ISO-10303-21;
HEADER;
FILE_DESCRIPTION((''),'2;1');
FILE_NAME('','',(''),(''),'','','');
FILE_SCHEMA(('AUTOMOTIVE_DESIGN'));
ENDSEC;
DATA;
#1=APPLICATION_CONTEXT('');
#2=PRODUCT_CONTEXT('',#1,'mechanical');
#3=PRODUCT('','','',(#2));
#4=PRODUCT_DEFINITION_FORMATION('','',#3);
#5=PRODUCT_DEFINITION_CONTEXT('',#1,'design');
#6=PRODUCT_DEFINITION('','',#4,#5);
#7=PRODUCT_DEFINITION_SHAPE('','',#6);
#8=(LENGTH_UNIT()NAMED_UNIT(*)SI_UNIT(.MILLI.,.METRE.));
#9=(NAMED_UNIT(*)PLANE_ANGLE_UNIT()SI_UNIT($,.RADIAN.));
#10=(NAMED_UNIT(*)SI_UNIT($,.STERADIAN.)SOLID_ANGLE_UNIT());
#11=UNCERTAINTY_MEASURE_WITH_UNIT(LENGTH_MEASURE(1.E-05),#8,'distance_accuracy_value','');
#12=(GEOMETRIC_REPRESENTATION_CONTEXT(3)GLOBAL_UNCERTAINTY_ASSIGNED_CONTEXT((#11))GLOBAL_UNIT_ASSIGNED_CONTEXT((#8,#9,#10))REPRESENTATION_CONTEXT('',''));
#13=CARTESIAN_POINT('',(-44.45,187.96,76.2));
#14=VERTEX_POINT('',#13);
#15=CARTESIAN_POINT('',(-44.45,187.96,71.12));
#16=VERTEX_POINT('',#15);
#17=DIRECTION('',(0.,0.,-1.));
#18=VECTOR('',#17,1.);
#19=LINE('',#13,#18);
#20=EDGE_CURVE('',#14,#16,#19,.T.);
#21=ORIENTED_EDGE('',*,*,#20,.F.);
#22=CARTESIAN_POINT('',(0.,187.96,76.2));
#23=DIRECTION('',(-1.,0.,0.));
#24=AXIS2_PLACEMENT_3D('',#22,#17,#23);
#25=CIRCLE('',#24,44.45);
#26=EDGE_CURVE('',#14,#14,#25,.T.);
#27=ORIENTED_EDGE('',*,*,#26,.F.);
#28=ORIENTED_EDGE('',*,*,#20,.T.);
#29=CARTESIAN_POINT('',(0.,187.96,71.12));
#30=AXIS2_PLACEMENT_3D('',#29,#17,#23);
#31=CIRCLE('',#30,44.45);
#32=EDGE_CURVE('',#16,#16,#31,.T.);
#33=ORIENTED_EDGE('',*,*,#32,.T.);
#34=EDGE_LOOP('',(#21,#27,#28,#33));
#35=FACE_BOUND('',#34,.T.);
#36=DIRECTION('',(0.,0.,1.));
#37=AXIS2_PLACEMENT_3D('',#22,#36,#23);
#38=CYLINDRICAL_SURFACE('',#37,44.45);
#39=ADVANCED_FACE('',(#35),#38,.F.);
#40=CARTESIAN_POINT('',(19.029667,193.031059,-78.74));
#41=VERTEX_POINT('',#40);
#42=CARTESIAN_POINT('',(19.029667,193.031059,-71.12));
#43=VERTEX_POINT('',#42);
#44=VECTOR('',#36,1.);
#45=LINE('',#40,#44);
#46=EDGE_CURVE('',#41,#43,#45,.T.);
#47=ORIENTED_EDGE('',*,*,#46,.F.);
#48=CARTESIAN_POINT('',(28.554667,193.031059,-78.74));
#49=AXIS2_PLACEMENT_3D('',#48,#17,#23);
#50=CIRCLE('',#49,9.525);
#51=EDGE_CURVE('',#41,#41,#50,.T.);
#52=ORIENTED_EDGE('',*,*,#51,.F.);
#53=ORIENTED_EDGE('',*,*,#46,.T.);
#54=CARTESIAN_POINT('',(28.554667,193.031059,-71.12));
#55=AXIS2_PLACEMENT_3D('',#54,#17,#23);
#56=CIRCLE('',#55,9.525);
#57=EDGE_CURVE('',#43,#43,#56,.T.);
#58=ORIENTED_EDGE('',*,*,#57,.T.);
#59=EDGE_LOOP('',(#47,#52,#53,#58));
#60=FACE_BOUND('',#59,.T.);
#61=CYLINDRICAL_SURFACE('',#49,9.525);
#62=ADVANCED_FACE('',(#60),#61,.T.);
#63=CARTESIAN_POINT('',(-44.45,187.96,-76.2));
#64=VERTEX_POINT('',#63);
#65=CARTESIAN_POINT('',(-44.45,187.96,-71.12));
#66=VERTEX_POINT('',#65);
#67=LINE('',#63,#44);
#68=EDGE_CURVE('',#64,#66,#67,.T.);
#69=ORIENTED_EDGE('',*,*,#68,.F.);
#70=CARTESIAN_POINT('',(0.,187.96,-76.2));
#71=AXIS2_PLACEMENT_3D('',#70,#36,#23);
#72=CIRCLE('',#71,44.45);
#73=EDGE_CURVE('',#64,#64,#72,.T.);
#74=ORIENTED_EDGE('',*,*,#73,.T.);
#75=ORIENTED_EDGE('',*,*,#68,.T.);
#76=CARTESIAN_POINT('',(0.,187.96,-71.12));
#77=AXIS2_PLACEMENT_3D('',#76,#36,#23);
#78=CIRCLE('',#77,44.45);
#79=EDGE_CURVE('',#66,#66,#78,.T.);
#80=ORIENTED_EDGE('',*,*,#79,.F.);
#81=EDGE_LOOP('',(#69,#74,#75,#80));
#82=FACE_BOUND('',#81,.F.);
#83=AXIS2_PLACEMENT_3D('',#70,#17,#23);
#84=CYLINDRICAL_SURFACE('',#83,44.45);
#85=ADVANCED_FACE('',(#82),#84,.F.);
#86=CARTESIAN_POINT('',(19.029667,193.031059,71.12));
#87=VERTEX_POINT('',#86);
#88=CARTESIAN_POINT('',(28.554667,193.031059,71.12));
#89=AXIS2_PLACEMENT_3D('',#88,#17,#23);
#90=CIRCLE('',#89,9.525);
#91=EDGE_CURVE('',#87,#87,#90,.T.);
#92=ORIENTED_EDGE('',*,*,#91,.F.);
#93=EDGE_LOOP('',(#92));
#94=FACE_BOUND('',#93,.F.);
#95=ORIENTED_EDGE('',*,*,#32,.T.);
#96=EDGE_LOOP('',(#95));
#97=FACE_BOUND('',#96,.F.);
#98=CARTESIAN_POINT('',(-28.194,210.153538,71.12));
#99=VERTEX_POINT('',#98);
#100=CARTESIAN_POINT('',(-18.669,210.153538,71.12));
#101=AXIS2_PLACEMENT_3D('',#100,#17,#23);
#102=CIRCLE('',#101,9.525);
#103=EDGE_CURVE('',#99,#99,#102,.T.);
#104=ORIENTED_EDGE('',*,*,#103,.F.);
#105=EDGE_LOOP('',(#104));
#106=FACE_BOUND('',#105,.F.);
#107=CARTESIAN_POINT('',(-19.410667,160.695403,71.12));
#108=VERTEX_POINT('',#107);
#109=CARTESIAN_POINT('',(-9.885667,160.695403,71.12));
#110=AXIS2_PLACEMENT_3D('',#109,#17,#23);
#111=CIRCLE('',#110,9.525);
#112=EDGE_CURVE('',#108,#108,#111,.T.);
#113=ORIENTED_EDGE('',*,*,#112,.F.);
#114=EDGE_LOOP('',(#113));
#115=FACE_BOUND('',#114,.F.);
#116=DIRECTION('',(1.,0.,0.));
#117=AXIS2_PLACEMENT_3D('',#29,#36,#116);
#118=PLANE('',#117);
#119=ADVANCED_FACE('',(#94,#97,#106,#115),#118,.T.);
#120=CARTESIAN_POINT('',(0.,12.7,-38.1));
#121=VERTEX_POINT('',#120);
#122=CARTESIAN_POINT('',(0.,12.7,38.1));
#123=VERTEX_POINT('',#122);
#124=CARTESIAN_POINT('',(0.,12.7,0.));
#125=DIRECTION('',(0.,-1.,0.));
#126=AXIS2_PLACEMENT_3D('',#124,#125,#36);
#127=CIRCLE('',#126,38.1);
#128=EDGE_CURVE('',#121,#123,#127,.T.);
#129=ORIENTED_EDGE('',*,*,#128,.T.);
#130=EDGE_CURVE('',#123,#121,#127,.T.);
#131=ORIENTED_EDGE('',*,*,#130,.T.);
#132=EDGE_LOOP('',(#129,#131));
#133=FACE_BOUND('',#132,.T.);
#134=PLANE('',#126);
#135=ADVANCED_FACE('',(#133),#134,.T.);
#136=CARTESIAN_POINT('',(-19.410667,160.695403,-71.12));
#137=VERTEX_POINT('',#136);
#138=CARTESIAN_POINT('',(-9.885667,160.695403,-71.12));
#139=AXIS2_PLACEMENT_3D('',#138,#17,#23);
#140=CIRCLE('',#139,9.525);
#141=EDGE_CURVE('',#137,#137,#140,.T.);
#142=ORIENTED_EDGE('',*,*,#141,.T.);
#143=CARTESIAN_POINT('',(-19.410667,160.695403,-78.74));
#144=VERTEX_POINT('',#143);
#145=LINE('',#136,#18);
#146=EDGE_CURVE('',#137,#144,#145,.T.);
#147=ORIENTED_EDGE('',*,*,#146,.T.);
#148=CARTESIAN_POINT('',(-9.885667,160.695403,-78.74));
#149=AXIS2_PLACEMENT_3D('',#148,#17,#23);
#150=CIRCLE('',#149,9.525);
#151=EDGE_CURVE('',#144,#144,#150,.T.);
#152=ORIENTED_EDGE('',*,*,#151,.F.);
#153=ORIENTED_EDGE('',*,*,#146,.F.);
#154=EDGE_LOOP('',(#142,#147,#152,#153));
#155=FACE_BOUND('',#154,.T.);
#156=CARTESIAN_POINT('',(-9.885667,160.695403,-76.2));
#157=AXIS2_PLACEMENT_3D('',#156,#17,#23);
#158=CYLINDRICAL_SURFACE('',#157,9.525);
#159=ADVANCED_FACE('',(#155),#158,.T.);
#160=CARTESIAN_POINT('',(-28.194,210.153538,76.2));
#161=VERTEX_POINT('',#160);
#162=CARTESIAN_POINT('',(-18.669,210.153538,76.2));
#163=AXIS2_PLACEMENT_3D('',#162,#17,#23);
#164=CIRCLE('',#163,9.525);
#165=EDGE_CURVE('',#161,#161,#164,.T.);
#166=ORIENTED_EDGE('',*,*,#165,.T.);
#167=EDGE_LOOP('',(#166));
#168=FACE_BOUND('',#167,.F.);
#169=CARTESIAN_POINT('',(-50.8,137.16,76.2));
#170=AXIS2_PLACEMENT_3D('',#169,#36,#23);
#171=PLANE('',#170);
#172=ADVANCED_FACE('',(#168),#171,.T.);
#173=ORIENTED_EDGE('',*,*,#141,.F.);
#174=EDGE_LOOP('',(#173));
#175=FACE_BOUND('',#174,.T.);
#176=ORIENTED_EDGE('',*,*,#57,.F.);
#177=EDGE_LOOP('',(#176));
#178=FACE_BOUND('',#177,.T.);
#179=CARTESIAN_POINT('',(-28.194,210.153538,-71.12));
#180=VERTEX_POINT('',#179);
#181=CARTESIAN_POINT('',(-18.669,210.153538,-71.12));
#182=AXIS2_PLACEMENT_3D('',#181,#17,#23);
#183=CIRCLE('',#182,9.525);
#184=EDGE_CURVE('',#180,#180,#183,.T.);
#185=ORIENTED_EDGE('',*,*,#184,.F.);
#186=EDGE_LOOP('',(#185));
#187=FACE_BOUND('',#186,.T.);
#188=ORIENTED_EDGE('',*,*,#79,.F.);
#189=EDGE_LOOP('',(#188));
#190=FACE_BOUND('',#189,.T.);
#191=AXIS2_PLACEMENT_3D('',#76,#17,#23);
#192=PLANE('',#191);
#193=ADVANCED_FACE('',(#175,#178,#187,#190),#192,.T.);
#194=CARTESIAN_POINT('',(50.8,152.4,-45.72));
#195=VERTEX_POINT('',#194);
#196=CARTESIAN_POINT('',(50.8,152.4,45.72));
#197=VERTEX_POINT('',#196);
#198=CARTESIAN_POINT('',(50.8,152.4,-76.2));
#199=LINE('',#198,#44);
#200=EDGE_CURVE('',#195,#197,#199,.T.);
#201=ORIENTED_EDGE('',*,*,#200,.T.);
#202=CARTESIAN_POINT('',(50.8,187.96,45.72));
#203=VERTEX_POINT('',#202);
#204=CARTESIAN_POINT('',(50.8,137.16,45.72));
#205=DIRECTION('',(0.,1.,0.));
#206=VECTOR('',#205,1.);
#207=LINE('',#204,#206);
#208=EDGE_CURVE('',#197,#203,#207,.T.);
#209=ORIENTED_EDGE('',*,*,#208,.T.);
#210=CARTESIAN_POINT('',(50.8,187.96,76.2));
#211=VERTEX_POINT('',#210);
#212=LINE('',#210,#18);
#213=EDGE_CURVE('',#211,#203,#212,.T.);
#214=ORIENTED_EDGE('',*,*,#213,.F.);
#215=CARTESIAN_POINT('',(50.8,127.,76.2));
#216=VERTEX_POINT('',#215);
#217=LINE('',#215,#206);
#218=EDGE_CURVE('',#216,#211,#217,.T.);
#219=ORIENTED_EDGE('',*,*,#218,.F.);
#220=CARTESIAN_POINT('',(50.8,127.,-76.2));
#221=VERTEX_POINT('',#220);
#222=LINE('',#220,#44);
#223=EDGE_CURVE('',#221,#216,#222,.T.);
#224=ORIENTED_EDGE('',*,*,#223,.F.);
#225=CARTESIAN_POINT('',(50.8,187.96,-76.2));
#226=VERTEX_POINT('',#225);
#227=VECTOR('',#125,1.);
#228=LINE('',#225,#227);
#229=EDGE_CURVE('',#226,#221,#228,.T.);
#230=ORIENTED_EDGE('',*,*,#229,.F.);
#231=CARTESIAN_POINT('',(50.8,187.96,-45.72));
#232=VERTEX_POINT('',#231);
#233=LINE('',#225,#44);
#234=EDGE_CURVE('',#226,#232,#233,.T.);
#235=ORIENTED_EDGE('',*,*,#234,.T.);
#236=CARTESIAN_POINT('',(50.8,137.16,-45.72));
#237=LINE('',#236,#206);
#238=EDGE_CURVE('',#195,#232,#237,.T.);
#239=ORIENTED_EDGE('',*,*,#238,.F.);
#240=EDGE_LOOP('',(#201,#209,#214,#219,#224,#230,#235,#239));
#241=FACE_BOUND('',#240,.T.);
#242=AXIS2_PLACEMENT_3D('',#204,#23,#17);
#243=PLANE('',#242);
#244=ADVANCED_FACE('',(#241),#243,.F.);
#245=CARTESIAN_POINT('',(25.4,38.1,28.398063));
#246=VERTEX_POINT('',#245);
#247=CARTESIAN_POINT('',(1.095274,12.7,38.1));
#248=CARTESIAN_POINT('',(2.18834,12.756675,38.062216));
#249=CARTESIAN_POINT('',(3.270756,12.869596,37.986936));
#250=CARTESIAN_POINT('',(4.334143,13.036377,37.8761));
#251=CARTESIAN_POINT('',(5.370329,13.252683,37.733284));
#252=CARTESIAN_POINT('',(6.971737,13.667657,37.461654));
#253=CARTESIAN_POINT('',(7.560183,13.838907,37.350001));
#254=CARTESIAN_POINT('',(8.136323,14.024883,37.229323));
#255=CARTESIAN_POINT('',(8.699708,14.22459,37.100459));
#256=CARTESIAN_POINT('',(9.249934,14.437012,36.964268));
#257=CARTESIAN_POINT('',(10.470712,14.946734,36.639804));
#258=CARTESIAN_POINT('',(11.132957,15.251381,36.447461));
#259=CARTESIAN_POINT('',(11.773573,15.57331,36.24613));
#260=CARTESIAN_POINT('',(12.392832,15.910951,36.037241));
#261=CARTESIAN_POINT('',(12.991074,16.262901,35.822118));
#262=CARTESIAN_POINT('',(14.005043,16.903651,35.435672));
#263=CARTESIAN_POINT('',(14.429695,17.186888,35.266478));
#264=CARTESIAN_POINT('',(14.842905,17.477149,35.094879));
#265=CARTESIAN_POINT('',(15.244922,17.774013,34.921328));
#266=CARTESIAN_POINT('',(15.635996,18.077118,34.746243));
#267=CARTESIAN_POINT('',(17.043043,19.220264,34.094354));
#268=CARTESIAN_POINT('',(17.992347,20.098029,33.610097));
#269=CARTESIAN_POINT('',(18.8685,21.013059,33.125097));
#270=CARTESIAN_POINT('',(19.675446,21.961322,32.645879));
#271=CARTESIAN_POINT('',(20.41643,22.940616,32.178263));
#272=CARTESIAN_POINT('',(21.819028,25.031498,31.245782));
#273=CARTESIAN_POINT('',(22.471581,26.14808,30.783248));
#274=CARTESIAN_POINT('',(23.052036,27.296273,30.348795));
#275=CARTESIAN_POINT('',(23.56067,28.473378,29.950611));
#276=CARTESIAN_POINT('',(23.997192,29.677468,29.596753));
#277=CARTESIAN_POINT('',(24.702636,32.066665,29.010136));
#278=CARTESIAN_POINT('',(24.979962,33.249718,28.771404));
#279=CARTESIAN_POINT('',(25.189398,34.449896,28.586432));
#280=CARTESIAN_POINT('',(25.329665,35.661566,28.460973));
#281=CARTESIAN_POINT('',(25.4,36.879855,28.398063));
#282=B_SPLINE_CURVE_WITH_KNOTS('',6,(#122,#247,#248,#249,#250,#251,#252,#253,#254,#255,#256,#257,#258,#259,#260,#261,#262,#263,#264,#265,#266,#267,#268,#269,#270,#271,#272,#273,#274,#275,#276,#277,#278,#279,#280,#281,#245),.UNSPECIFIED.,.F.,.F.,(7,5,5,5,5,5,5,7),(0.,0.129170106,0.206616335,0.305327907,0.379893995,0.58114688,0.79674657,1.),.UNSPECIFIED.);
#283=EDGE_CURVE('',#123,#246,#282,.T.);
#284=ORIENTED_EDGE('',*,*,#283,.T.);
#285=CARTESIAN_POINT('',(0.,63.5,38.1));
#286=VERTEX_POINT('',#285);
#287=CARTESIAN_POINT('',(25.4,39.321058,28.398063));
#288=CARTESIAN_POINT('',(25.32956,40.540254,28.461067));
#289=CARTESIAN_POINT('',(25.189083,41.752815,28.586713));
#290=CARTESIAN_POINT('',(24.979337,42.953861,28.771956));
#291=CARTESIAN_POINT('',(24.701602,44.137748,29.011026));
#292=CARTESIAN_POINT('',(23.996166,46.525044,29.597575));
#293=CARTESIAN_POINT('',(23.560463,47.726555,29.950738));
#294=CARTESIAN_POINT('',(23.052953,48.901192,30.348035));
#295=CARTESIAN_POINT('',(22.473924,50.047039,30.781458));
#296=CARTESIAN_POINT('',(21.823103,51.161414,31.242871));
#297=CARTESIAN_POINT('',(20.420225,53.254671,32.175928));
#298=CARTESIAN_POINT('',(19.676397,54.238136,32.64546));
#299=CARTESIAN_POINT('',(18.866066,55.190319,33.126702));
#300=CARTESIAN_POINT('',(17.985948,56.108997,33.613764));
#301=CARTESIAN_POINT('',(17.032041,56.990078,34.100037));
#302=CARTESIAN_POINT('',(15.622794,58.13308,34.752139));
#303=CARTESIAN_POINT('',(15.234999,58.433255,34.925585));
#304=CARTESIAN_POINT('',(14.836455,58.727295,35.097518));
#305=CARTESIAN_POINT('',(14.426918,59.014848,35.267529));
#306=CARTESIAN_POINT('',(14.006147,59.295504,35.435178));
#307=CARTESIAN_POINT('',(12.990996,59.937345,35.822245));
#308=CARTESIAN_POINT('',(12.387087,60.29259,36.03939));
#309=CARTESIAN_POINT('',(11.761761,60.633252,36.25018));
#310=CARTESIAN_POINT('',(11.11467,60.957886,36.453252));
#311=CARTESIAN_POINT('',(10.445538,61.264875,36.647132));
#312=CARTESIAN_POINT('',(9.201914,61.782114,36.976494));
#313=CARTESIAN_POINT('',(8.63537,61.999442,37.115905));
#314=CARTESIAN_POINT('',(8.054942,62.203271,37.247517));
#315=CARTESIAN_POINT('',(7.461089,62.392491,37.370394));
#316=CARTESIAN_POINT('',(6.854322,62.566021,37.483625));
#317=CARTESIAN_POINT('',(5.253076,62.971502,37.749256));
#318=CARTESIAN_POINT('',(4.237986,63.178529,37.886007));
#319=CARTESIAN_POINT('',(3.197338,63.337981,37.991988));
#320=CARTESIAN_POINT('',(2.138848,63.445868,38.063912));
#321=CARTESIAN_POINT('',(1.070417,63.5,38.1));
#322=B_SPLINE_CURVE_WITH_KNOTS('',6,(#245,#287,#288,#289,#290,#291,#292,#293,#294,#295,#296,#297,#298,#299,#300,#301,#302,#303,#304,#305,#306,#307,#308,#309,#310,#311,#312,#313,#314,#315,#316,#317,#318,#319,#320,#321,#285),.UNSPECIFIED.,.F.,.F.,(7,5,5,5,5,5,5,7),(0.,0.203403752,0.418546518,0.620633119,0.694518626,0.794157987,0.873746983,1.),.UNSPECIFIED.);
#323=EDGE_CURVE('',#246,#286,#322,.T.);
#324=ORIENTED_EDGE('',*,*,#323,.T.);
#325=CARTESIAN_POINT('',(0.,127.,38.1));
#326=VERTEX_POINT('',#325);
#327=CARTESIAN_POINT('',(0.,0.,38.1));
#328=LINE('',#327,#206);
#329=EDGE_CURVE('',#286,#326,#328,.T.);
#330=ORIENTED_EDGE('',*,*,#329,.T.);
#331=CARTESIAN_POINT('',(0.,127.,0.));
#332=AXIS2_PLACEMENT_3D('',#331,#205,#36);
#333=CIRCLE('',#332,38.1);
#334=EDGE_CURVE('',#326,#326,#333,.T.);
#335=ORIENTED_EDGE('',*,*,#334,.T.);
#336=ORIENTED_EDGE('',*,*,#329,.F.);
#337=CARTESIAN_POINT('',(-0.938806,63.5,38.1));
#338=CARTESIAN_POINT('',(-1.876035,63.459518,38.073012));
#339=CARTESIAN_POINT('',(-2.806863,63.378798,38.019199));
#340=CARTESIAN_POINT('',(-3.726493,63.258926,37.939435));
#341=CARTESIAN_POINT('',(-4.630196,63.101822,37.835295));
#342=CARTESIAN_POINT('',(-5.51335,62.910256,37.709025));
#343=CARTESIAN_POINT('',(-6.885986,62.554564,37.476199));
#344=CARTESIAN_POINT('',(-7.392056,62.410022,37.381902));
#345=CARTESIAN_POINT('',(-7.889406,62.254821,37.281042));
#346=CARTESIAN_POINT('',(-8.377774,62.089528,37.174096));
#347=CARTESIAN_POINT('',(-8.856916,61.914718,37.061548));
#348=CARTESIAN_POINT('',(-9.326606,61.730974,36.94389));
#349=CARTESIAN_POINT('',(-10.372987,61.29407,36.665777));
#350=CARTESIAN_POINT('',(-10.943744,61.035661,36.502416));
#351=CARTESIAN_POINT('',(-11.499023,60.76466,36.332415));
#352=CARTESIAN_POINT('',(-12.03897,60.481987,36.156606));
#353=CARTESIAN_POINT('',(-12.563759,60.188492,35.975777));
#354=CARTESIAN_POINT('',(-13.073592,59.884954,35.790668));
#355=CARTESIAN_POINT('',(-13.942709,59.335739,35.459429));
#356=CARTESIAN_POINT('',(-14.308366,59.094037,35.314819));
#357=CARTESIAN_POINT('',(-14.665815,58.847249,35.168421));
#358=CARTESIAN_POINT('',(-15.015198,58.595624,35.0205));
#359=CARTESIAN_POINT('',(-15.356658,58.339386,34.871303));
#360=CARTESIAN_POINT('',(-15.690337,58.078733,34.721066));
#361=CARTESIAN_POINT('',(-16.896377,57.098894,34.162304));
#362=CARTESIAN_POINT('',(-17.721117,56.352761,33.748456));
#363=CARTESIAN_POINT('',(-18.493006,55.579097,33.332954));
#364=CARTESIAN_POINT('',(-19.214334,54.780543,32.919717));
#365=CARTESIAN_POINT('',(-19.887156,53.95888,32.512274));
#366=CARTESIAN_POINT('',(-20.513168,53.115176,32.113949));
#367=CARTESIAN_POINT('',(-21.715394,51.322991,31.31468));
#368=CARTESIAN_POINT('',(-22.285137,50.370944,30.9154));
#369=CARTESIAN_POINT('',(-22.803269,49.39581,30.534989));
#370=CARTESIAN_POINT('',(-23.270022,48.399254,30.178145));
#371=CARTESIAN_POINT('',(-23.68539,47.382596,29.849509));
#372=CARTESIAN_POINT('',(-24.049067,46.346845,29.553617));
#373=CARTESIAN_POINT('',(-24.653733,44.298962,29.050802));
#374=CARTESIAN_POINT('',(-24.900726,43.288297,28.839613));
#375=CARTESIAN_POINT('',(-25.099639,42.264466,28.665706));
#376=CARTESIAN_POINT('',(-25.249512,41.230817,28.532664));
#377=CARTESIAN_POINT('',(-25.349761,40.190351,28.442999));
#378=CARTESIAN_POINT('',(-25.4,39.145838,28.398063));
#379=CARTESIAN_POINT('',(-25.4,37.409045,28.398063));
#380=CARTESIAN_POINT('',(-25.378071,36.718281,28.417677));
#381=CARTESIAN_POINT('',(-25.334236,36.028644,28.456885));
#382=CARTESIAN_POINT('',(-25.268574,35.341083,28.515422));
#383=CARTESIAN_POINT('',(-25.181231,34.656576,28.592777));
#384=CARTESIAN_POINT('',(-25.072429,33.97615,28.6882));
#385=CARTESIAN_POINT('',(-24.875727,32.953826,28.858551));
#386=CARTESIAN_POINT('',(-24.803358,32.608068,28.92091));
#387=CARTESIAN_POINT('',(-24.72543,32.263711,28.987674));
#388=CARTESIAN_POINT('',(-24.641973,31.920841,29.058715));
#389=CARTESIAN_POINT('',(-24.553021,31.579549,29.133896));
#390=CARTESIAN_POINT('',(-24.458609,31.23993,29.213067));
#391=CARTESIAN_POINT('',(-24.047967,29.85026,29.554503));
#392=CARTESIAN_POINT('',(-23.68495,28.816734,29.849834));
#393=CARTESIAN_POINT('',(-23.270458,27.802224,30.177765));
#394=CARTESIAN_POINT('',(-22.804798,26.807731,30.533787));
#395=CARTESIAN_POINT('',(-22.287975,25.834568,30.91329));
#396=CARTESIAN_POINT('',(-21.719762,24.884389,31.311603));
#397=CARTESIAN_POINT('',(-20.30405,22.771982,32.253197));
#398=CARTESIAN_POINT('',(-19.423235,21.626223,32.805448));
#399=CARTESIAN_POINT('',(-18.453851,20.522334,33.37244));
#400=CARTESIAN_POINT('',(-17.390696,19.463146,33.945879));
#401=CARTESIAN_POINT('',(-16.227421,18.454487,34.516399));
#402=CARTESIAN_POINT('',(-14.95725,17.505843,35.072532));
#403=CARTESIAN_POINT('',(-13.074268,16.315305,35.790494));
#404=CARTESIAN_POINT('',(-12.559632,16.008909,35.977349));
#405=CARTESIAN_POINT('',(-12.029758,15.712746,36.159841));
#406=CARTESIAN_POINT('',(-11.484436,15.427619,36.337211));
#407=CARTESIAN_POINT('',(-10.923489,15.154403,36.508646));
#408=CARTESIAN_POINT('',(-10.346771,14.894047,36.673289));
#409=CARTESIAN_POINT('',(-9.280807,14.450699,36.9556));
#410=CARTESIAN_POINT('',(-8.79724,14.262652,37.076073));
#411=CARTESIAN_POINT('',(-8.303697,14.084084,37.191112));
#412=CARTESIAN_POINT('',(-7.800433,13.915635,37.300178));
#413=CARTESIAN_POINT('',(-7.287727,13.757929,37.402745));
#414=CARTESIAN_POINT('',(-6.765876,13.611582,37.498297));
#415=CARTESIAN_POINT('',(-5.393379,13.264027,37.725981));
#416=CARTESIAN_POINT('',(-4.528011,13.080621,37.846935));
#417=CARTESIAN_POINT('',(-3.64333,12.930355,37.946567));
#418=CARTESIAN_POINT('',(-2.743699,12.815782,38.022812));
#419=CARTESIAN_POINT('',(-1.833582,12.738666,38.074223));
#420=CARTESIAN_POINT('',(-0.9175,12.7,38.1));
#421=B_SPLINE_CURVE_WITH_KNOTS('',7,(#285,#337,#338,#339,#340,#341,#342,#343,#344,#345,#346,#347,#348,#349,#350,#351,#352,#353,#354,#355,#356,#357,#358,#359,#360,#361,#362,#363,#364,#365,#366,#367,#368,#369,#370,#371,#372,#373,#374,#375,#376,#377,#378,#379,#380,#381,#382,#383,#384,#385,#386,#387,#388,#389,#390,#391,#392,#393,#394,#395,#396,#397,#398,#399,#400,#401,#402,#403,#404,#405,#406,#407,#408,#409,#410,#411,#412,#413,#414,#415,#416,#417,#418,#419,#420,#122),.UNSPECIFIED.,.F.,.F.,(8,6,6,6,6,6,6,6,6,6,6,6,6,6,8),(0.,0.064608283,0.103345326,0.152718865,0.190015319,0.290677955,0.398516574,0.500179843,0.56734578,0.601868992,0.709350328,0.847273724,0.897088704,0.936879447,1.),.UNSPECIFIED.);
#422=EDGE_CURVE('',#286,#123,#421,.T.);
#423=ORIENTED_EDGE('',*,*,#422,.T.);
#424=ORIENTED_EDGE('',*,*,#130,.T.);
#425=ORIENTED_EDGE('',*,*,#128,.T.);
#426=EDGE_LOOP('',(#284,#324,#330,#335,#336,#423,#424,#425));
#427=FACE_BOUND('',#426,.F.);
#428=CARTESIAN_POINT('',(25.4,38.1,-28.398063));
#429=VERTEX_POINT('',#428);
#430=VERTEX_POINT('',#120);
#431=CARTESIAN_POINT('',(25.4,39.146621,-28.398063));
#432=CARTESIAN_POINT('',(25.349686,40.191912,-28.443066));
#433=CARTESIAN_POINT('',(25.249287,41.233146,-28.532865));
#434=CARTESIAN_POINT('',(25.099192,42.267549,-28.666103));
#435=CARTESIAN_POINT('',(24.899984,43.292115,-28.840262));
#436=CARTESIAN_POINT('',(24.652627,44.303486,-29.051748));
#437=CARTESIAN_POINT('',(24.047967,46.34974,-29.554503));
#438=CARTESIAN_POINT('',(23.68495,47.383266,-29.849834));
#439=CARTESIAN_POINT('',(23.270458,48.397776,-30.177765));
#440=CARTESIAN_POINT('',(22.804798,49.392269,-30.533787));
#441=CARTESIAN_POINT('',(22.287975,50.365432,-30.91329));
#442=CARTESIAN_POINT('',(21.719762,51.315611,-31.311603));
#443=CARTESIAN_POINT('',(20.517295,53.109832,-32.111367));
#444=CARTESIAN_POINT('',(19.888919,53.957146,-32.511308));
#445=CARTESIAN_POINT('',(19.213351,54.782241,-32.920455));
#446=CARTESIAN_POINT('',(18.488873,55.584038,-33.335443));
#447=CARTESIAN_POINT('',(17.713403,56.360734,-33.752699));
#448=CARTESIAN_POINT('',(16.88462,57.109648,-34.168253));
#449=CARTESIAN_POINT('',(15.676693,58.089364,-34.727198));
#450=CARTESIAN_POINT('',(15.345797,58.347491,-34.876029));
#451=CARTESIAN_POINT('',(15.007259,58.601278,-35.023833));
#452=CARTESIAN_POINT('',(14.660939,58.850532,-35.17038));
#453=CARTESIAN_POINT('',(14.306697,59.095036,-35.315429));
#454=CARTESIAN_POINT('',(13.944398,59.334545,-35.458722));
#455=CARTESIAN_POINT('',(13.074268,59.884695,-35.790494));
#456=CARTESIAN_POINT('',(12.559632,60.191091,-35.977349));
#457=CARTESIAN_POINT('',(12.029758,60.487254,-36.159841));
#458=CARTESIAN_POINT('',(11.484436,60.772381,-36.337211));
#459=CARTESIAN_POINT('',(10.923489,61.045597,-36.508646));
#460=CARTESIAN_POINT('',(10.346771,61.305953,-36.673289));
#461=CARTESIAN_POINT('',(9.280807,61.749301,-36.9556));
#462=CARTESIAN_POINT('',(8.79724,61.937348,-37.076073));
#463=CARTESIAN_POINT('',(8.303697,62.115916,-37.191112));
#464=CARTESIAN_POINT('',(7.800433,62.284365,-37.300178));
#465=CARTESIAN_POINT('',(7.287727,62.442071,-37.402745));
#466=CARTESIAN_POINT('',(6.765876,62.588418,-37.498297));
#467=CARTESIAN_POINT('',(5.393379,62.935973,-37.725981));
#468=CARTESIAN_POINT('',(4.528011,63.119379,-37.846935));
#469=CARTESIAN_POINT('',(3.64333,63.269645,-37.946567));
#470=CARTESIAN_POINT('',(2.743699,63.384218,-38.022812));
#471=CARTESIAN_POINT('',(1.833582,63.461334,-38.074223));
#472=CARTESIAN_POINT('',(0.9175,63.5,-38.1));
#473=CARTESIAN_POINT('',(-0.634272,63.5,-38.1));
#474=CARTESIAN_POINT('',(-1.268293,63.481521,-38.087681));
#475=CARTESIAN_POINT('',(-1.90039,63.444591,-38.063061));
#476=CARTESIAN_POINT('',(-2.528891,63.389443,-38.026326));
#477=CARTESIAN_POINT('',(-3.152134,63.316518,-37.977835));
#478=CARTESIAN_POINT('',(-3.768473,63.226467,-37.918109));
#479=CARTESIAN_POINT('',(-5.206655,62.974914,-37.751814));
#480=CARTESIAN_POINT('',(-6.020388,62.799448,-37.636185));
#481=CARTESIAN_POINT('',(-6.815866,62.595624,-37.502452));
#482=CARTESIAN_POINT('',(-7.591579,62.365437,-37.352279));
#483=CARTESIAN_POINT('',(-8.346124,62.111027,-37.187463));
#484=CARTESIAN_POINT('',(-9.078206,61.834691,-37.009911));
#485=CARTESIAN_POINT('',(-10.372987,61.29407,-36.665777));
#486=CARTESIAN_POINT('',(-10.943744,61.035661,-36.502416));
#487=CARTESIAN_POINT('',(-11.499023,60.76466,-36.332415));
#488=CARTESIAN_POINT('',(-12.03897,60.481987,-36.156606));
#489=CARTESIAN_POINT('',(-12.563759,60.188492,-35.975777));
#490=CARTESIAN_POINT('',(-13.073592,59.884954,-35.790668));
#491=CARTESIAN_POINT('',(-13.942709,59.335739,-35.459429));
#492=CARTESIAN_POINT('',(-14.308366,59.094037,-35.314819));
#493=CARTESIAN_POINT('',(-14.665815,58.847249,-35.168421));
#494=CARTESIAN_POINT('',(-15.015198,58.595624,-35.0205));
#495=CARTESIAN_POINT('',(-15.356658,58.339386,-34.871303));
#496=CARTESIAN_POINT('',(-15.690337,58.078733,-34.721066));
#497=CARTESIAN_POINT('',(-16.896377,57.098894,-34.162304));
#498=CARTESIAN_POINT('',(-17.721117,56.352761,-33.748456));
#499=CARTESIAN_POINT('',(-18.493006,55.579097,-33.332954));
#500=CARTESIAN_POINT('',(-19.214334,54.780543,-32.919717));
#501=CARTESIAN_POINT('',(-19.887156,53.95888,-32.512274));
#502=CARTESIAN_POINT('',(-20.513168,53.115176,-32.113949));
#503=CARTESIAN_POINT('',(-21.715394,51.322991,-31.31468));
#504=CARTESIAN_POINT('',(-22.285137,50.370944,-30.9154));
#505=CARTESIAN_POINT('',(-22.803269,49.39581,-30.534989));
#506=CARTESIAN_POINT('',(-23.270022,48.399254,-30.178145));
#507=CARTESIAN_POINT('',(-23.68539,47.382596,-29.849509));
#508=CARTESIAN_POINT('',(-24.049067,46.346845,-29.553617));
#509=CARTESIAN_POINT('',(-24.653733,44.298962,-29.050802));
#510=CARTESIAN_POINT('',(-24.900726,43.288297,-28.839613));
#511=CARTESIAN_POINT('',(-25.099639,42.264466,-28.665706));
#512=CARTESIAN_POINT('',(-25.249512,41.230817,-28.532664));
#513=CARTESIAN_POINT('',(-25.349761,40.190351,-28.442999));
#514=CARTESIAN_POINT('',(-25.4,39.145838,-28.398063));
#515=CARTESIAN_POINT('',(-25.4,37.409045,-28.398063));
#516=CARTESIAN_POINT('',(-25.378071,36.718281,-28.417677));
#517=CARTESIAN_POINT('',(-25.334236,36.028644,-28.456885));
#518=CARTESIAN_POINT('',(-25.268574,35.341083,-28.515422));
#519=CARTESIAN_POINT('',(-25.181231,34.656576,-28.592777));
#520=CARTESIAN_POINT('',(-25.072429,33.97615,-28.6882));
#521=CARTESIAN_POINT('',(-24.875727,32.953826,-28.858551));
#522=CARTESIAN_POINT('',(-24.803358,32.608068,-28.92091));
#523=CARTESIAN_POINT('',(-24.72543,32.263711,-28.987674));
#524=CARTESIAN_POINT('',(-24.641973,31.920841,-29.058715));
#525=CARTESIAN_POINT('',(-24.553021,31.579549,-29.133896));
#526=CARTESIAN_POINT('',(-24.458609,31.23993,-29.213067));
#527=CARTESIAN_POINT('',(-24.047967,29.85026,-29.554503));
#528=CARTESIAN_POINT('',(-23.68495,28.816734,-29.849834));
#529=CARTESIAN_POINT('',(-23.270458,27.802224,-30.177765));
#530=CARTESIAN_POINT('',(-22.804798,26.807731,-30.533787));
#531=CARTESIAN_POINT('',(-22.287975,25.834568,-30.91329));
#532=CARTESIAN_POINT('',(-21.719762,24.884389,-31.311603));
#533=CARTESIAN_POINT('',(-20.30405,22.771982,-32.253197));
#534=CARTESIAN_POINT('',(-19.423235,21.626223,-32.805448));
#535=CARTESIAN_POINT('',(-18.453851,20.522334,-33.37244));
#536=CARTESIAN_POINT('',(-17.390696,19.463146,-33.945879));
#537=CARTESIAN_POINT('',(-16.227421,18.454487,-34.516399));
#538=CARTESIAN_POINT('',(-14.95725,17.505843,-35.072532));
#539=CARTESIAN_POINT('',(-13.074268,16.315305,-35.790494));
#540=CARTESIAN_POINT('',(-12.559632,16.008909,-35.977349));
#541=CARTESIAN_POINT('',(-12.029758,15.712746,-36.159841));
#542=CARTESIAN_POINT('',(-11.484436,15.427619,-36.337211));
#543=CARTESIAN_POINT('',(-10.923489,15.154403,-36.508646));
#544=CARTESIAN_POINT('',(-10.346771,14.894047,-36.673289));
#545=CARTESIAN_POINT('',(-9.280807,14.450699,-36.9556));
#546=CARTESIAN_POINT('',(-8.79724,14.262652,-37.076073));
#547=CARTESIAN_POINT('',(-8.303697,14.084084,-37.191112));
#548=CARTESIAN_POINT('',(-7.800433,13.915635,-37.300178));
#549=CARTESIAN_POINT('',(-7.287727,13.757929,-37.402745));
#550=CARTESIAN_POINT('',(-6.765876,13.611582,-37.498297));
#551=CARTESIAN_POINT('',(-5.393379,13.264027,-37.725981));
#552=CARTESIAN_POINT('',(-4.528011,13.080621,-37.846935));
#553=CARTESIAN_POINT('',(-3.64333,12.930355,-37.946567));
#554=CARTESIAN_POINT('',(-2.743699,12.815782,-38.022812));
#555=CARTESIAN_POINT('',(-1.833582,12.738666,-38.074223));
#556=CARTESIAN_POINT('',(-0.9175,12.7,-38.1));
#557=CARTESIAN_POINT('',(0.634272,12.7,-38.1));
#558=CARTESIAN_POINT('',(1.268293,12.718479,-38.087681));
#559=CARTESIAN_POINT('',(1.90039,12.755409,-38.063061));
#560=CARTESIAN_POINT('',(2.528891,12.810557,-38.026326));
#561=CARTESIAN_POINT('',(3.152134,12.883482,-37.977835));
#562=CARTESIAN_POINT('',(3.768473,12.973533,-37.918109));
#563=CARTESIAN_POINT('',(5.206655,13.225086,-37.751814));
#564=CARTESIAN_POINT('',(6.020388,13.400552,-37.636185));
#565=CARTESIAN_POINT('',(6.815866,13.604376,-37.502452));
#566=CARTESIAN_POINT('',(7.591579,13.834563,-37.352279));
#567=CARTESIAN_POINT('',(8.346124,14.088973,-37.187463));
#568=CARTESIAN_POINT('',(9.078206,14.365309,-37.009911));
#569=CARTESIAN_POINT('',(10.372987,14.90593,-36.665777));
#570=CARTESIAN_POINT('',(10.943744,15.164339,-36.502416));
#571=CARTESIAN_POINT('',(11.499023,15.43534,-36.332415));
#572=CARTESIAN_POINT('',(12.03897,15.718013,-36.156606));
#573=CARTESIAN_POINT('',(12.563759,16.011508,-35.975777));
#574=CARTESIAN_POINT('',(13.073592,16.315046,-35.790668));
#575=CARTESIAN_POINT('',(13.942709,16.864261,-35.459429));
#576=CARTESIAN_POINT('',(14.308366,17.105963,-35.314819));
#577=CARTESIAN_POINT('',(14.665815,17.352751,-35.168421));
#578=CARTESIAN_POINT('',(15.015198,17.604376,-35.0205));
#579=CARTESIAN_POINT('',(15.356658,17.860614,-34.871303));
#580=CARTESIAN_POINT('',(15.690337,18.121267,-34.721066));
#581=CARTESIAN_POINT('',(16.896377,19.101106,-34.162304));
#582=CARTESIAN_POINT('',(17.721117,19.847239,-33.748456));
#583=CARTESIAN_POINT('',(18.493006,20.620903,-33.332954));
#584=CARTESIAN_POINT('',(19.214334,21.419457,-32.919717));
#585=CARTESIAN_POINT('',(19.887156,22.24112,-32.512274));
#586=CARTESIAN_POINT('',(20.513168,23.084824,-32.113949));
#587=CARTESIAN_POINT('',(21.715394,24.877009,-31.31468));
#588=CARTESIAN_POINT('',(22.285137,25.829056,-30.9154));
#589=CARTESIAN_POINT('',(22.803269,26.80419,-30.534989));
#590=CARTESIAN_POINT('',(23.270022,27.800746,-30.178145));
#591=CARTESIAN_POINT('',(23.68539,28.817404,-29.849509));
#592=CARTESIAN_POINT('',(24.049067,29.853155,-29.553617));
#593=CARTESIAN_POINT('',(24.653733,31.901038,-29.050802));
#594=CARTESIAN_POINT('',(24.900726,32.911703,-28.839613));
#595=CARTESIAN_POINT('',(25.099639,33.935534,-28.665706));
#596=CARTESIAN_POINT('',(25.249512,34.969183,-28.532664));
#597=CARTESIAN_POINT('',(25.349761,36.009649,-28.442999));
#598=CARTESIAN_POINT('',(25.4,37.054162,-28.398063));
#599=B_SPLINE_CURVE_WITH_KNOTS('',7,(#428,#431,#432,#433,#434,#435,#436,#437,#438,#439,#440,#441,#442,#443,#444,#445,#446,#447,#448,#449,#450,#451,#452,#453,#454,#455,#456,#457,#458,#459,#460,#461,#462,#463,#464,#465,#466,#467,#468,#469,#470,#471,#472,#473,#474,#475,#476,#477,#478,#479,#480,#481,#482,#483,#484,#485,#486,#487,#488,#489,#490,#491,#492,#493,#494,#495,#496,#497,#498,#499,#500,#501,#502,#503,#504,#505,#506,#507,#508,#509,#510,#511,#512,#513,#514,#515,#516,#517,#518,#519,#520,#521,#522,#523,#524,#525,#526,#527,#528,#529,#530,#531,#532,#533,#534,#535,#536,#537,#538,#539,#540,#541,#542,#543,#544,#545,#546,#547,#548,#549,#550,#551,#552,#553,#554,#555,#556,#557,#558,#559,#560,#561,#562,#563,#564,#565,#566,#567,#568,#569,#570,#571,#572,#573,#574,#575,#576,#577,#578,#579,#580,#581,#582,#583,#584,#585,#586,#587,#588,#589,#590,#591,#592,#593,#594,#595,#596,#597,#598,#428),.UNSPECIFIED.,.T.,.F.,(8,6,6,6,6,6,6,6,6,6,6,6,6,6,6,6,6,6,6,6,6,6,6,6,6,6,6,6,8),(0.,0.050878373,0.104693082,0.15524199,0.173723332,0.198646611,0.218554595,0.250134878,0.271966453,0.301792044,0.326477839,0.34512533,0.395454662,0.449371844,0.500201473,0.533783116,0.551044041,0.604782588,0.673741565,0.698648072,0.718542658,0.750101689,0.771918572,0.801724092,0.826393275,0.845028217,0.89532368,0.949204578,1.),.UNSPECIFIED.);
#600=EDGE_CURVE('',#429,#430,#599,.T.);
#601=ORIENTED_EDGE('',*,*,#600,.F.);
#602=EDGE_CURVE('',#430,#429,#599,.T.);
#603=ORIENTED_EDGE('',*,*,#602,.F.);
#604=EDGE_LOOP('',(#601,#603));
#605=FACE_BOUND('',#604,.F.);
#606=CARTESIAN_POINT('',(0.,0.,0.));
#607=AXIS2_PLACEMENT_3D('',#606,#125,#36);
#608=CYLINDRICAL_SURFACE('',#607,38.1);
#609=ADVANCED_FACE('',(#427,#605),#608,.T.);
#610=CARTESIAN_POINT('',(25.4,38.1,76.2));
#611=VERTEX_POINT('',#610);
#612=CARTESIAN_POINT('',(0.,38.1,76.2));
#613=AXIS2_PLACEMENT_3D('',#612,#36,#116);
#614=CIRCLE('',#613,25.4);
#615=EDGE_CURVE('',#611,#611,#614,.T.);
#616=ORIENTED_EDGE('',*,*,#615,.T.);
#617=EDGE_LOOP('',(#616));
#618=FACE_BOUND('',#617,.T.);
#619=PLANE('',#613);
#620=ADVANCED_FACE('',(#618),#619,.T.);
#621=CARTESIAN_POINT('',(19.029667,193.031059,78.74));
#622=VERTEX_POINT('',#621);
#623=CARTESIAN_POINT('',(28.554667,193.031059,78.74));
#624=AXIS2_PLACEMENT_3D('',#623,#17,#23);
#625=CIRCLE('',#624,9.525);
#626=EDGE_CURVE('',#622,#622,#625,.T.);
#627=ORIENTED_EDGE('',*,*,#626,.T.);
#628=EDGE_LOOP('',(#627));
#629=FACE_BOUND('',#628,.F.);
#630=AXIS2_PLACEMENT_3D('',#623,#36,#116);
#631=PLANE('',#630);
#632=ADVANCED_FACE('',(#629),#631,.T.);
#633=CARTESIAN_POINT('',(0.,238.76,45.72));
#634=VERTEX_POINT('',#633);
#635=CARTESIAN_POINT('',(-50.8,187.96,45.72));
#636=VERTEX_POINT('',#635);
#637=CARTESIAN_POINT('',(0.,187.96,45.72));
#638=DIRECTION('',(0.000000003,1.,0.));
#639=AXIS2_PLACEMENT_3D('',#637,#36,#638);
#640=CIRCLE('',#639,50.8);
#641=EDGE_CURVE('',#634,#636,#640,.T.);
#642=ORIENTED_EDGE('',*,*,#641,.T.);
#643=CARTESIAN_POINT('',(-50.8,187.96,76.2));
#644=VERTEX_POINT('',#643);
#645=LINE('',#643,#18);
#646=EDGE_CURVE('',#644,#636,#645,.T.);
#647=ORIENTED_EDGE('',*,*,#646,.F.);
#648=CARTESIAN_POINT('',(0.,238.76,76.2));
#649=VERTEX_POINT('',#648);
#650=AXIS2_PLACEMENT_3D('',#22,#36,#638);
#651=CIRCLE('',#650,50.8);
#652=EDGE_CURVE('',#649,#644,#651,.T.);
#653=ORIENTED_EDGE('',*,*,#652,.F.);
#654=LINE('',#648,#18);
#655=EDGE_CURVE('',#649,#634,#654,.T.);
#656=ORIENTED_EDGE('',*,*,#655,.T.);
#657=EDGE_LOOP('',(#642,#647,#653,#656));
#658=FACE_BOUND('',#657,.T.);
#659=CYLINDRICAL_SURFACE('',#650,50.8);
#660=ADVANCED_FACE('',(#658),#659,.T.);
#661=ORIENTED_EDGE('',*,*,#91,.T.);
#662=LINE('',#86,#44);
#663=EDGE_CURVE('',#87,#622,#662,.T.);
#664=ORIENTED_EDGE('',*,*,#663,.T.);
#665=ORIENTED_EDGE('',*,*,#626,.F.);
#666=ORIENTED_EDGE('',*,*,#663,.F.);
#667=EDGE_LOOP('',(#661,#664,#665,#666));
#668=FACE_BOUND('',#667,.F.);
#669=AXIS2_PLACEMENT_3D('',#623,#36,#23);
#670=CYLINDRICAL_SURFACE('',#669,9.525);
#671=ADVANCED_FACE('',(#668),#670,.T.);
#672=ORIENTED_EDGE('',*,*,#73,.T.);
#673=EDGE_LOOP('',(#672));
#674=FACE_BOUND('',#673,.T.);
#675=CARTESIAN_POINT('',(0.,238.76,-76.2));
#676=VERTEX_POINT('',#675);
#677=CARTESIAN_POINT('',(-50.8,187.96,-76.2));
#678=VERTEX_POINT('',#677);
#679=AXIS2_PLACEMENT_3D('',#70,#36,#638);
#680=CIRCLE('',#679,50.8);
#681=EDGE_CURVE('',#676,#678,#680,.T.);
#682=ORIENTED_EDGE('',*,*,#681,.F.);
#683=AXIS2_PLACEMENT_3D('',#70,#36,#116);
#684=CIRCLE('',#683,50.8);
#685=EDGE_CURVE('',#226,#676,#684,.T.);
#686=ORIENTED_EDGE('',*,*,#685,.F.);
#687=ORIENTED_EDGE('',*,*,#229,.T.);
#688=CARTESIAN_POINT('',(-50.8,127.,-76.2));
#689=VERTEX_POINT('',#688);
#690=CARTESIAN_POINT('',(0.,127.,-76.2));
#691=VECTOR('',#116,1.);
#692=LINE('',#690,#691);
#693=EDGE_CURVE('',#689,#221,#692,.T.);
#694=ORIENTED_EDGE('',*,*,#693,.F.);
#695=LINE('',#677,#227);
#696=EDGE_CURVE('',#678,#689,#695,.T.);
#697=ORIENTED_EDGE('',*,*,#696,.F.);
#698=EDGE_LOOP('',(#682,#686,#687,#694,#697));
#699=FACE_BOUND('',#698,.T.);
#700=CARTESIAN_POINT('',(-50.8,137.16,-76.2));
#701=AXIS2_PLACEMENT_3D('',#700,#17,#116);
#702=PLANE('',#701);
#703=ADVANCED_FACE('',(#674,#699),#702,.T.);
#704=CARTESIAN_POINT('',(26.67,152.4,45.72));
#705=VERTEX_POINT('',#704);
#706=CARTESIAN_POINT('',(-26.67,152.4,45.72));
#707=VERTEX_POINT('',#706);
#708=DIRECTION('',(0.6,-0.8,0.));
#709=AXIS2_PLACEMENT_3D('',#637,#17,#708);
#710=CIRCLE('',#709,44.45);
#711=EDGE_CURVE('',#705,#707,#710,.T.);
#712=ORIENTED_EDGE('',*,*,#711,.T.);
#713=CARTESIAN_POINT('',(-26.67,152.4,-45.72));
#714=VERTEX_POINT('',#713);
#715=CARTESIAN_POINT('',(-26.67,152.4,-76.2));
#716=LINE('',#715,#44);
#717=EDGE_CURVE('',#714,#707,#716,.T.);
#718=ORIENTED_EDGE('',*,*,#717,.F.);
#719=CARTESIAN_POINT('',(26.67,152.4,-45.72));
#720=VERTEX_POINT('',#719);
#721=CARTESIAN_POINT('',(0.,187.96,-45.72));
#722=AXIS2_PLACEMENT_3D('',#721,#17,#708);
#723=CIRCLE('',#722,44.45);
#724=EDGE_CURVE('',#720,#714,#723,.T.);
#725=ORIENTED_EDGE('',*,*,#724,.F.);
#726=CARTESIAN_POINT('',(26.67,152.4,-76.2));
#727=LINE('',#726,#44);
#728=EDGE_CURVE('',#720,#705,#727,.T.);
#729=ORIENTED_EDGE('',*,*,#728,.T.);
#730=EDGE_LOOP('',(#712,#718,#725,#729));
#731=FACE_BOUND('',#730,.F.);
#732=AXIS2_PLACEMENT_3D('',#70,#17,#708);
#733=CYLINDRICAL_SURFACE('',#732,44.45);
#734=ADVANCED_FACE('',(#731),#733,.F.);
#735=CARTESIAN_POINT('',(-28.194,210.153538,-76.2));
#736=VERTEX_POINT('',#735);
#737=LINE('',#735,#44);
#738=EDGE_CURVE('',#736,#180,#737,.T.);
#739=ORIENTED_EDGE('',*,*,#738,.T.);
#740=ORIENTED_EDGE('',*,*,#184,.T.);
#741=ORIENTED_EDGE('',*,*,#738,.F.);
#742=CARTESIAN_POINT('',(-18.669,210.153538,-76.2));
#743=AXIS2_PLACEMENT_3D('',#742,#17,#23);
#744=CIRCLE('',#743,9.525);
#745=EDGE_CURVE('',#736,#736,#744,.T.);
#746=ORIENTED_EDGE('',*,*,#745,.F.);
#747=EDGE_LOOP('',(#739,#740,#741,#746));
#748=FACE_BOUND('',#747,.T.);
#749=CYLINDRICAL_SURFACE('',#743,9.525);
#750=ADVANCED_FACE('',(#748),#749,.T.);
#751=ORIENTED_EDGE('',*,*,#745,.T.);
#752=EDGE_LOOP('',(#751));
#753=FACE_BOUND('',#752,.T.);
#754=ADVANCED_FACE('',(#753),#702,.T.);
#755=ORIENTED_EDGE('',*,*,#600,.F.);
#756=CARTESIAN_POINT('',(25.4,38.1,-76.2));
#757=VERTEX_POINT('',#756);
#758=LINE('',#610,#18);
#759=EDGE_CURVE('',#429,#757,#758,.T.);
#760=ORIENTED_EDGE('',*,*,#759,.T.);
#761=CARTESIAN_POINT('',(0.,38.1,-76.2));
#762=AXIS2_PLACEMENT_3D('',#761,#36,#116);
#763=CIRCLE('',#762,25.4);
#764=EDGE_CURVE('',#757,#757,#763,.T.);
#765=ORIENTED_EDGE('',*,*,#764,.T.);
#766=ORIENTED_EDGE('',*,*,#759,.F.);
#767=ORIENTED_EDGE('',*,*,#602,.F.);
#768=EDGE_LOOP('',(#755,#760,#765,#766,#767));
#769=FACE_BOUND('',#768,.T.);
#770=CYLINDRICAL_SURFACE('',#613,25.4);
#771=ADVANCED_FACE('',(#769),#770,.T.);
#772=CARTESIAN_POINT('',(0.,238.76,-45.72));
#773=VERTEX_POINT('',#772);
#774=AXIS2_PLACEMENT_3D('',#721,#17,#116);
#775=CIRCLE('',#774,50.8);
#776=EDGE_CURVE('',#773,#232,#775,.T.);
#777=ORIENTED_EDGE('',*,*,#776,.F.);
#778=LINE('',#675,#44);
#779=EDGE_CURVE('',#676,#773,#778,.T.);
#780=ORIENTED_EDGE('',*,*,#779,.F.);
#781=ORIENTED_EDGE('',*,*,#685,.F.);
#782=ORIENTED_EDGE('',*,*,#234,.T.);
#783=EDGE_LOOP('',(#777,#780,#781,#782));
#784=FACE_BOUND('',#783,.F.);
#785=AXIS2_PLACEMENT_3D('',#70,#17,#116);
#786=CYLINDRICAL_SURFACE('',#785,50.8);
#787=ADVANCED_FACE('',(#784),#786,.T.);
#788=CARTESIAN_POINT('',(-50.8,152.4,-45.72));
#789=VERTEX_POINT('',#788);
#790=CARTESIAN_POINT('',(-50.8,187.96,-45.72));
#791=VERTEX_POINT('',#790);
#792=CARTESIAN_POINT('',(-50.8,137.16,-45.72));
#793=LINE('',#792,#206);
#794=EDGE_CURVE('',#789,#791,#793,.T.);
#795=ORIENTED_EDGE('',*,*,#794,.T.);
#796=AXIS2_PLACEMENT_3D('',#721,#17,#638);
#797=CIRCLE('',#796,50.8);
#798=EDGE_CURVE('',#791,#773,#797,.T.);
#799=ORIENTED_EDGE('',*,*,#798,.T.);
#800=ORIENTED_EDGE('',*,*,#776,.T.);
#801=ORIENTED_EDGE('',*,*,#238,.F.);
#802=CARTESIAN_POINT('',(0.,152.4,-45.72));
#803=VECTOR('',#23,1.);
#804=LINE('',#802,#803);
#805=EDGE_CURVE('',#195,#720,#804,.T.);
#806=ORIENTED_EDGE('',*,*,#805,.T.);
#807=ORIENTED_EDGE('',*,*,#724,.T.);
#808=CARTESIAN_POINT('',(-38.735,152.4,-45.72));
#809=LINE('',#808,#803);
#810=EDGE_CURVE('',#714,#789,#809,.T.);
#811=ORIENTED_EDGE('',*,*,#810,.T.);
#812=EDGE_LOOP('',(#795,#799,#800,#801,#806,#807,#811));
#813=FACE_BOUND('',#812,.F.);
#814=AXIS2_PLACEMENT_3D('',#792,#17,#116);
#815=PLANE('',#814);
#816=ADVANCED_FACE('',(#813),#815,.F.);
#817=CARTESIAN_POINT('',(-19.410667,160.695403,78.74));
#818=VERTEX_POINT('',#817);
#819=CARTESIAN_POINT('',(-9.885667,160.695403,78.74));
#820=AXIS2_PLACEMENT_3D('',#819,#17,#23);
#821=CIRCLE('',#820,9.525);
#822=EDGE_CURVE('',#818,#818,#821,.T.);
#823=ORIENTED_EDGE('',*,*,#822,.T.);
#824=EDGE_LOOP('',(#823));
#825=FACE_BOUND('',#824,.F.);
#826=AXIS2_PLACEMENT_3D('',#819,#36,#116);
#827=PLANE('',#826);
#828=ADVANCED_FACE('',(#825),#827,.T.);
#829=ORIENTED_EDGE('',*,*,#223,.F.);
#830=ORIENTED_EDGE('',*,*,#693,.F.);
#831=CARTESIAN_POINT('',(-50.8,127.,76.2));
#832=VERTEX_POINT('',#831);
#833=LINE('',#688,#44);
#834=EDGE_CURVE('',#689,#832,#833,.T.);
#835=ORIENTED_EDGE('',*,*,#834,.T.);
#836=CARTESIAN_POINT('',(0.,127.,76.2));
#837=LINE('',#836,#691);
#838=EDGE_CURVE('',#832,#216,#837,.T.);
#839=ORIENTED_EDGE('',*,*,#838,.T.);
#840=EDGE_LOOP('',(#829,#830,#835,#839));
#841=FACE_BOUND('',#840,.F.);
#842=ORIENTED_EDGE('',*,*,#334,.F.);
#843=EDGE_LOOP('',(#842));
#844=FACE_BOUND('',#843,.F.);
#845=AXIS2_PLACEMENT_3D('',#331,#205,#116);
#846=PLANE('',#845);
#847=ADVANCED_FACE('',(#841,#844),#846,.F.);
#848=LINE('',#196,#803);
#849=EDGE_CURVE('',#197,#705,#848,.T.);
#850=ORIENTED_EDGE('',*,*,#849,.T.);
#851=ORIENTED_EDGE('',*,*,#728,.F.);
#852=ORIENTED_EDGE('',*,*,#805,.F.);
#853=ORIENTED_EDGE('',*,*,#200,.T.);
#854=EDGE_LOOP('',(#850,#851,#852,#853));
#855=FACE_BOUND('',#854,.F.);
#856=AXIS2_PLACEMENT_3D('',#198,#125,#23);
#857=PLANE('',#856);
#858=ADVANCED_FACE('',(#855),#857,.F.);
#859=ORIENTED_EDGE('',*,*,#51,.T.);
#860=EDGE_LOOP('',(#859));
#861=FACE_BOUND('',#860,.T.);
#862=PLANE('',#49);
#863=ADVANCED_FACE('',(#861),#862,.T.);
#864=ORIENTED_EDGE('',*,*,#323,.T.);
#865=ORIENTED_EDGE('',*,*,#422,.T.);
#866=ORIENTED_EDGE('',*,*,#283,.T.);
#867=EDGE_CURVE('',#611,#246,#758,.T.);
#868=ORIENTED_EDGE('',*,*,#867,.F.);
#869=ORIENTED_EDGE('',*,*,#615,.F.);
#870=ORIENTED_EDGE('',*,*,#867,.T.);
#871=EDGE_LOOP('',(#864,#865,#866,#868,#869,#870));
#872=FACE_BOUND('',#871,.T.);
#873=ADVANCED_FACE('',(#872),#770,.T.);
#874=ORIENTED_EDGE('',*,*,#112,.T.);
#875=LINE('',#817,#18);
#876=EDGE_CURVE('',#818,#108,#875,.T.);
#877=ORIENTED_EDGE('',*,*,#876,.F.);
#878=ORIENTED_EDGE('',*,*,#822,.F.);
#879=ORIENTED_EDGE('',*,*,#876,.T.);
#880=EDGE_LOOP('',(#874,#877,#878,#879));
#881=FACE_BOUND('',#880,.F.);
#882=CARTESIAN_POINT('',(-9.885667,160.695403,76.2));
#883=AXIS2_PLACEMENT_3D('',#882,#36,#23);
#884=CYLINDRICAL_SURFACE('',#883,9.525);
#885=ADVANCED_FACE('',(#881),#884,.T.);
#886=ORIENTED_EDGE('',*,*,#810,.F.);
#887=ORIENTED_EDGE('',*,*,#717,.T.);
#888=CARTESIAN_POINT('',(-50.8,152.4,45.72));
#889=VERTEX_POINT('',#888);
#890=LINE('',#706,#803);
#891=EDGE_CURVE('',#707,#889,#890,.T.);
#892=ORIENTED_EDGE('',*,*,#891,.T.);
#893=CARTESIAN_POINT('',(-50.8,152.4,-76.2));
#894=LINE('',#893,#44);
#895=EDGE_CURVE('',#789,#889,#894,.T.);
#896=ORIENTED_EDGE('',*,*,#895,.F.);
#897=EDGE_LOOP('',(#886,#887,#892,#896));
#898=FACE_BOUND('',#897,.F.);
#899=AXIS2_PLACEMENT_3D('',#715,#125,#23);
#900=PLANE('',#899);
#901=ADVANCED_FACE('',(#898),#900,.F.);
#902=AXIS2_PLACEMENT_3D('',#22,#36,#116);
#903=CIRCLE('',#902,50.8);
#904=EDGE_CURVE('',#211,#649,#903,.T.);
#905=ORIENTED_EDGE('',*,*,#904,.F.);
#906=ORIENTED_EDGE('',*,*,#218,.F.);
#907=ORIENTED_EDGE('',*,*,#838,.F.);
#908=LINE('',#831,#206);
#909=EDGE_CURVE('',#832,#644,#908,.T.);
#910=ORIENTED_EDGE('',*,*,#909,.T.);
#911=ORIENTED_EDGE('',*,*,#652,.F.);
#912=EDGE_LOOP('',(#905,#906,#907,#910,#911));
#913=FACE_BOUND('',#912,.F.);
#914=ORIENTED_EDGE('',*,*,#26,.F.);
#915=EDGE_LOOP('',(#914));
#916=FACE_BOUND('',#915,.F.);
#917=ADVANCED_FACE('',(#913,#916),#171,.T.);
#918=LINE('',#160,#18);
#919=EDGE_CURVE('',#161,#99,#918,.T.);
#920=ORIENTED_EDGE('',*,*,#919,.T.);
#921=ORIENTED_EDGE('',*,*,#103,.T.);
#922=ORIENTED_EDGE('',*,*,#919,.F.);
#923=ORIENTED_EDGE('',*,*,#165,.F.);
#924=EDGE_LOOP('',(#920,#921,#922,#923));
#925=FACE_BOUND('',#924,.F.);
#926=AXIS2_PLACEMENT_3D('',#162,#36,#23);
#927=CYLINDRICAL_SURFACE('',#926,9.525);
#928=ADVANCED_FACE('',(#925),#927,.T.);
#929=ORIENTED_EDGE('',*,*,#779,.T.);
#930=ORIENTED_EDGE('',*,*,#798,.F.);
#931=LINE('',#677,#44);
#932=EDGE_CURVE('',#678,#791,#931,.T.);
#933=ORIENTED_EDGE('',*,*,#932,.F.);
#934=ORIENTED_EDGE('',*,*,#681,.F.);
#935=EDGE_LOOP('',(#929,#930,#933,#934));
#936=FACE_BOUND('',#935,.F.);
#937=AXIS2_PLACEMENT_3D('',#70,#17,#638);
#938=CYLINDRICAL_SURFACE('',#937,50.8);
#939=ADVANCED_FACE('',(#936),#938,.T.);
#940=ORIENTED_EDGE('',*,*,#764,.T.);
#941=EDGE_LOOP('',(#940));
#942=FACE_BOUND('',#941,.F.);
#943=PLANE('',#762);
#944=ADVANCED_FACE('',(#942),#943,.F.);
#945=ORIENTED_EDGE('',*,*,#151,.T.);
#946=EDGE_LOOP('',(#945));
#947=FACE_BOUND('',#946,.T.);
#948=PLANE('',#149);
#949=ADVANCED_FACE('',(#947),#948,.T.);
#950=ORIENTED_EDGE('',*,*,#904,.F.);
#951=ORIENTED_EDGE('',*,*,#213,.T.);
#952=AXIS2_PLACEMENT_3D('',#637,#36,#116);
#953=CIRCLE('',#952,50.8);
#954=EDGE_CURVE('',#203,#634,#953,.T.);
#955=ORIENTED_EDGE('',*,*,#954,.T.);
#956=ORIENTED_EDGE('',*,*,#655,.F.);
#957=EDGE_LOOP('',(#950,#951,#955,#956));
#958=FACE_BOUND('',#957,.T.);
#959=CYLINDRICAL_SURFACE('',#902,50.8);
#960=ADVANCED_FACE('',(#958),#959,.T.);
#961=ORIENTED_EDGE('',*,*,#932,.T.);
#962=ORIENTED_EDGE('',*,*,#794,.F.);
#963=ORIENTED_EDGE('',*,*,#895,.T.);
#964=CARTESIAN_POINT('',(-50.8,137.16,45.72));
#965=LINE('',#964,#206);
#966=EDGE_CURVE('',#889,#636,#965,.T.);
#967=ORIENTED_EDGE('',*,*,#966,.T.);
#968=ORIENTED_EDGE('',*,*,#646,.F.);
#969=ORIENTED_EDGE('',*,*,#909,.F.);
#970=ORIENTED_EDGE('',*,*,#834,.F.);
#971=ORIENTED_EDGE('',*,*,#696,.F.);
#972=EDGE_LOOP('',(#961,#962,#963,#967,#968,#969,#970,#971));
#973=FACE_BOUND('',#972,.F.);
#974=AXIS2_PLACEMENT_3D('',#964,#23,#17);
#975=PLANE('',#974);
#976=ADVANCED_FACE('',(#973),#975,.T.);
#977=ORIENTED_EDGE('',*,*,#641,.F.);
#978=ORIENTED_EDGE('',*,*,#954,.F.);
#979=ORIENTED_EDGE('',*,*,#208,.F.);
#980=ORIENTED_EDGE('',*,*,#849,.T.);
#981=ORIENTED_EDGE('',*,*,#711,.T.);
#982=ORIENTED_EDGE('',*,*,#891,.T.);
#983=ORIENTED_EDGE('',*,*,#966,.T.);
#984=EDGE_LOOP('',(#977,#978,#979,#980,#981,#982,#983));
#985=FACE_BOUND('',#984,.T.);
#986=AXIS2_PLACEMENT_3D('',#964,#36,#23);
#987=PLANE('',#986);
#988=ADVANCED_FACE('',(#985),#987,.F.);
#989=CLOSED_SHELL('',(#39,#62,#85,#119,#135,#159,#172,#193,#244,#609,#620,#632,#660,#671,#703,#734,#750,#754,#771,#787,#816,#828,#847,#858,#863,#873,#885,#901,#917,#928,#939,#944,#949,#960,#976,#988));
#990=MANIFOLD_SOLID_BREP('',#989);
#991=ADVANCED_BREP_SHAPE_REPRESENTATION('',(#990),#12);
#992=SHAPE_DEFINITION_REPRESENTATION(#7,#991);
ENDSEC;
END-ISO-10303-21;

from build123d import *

# Parameters (mm, degrees)
SKETCH1_R           = 38.1
BOSS_EXTRUDE1_DEPTH = 127
SKETCH3_R           = 25.4
BOSS_EXTRUDE2_DEPTH = 152.4
SKETCH4_W           = 101.6
SKETCH4_H           = 152.4
BOSS_EXTRUDE3_DEPTH = 10.16
SKETCH5_W           = 101.6
SKETCH5_H           = 30.48
BOSS_EXTRUDE4_DEPTH = 101.6
CUT_EXTRUDE1_DEPTH  = 101.6
SKETCH8_R           = 44.45
SKETCH8_R_2         = 9.525
CUT_EXTRUDE3_DEPTH  = 5.08
BOSS_EXTRUDE6_START = 2.54
SKETCH8_6_R         = 9.525
BOSS_EXTRUDE6_DEPTH = 2.54
BOSS_EXTRUDE7_DEPTH = 121.92
SKETCH11_R          = 38.1
CUT_EXTRUDE5_DEPTH  = 12.7


with BuildPart() as part:
    # Sketch1 → Boss-Extrude1 (new body)
    with BuildSketch(Plane(origin=(0, 0, 0), x_dir=(1, 0, 0), z_dir=(0, 1, 0))):
        with Locations(Location((0, 0, 0), (0, 0, 270))):
            Circle(SKETCH1_R)
    extrude(amount=BOSS_EXTRUDE1_DEPTH)

    # Sketch3 → Boss-Extrude2 (add)
    with BuildSketch(Plane.XY.offset(76.2)):
        with Locations((0, 38.1)):
            Circle(SKETCH3_R)
    extrude(amount=-BOSS_EXTRUDE2_DEPTH)

    # Sketch4 → Boss-Extrude3 (add)
    with BuildSketch(Plane(origin=(0, 127, 0), x_dir=(1, 0, 0), z_dir=(0, 1, 0))):
        Rectangle(SKETCH4_W, SKETCH4_H)
    extrude(amount=BOSS_EXTRUDE3_DEPTH)

    # Sketch5 → Boss-Extrude4 (add)
    with BuildSketch(Plane(origin=(0, 137.16, 0), x_dir=(1, 0, 0), z_dir=(0, 1, 0))):
        with Locations((0, 60.96)):
            Rectangle(SKETCH5_W, SKETCH5_H)
    boss_extrude4 = extrude(amount=BOSS_EXTRUDE4_DEPTH)

    # Sketch7 → Cut-Extrude1 (cut)
    with BuildSketch(Plane(origin=(0, 0, -76.2), x_dir=(-1, 0, 0), z_dir=(0, 0, -1))):
        with BuildLine():
            ThreePointArc((-50.8, 187.96), (-35.92102454, 223.881024429), (-1.57e-07, 238.76))
            Line((-1.57e-07, 238.76), (-50.8, 238.76))
            Line((-50.8, 238.76), (-50.8, 187.96))
        make_face()
        with BuildLine():
            Line((50.8, 187.96), (50.8, 238.76))
            Line((50.8, 238.76), (-1.57e-07, 238.76))
            ThreePointArc((-1.57e-07, 238.76), (35.921024429, 223.88102454), (50.8, 187.96))
        make_face()
    cut_extrude1 = extrude(amount=-CUT_EXTRUDE1_DEPTH, mode=Mode.SUBTRACT)

    # Sketch8 → Cut-Extrude3 (cut)
    with BuildSketch(Plane(origin=(0, 0, -76.2), x_dir=(-1, 0, 0), z_dir=(0, 0, -1))):
        with Locations((0, 187.96)):
            Circle(SKETCH8_R)
        with Locations((-28.554667319, 193.031059488)):
            Circle(SKETCH8_R_2, mode=Mode.SUBTRACT)
        with Locations((9.885667319, 160.695402961)):
            Circle(SKETCH8_R_2, mode=Mode.SUBTRACT)
        with Locations((18.669, 210.153537551)):
            Circle(SKETCH8_R_2, mode=Mode.SUBTRACT)
    cut_extrude3 = extrude(amount=-CUT_EXTRUDE3_DEPTH, mode=Mode.SUBTRACT)

    # Sketch8<6> → Boss-Extrude6 (add)
    with BuildSketch(Plane(origin=(0, 0, -76.2), x_dir=(-1, 0, 0), z_dir=(0, 0, -1)).offset(BOSS_EXTRUDE6_START)):
        with Locations((-28.554667319, 193.031059488)):
            Circle(SKETCH8_6_R)
        with Locations((9.885667319, 160.695402961)):
            Circle(SKETCH8_6_R)
    boss_extrude6 = extrude(amount=-BOSS_EXTRUDE6_DEPTH)

    # Mirror2: Boss-Extrude4, Cut-Extrude1, Cut-Extrude3, Boss-Extrude6 across plane
    add(boss_extrude4.mirror(Plane.XY))
    add(cut_extrude1.mirror(Plane.XY), mode=Mode.SUBTRACT)
    add(cut_extrude3.mirror(Plane.XY), mode=Mode.SUBTRACT)
    add(boss_extrude6.mirror(Plane.XY))

    # Sketch10 → Boss-Extrude7 (add)
    with BuildSketch(Plane(origin=(0, 0, -76.2), x_dir=(-1, 0, 0), z_dir=(0, 0, -1))):
        with BuildLine():
            Line((-50.8, 152.4), (-26.67, 152.4))
            ThreePointArc((-26.67, 152.4), (0, 143.51), (26.67, 152.4))
            Line((26.67, 152.4), (50.8, 152.4))
            Line((50.8, 152.4), (50.8, 127))
            Line((50.8, 127), (-50.8, 127))
            Line((-50.8, 127), (-50.8, 152.4))
        make_face()
    extrude(amount=-BOSS_EXTRUDE7_DEPTH)

    # Sketch11 → Cut-Extrude5 (cut)
    with BuildSketch(Plane.XZ):
        with Locations(Location((0, 0, 0), (0, 0, 90))):
            Circle(SKETCH11_R)
    extrude(amount=-CUT_EXTRUDE5_DEPTH, mode=Mode.SUBTRACT)


solid = part.part
